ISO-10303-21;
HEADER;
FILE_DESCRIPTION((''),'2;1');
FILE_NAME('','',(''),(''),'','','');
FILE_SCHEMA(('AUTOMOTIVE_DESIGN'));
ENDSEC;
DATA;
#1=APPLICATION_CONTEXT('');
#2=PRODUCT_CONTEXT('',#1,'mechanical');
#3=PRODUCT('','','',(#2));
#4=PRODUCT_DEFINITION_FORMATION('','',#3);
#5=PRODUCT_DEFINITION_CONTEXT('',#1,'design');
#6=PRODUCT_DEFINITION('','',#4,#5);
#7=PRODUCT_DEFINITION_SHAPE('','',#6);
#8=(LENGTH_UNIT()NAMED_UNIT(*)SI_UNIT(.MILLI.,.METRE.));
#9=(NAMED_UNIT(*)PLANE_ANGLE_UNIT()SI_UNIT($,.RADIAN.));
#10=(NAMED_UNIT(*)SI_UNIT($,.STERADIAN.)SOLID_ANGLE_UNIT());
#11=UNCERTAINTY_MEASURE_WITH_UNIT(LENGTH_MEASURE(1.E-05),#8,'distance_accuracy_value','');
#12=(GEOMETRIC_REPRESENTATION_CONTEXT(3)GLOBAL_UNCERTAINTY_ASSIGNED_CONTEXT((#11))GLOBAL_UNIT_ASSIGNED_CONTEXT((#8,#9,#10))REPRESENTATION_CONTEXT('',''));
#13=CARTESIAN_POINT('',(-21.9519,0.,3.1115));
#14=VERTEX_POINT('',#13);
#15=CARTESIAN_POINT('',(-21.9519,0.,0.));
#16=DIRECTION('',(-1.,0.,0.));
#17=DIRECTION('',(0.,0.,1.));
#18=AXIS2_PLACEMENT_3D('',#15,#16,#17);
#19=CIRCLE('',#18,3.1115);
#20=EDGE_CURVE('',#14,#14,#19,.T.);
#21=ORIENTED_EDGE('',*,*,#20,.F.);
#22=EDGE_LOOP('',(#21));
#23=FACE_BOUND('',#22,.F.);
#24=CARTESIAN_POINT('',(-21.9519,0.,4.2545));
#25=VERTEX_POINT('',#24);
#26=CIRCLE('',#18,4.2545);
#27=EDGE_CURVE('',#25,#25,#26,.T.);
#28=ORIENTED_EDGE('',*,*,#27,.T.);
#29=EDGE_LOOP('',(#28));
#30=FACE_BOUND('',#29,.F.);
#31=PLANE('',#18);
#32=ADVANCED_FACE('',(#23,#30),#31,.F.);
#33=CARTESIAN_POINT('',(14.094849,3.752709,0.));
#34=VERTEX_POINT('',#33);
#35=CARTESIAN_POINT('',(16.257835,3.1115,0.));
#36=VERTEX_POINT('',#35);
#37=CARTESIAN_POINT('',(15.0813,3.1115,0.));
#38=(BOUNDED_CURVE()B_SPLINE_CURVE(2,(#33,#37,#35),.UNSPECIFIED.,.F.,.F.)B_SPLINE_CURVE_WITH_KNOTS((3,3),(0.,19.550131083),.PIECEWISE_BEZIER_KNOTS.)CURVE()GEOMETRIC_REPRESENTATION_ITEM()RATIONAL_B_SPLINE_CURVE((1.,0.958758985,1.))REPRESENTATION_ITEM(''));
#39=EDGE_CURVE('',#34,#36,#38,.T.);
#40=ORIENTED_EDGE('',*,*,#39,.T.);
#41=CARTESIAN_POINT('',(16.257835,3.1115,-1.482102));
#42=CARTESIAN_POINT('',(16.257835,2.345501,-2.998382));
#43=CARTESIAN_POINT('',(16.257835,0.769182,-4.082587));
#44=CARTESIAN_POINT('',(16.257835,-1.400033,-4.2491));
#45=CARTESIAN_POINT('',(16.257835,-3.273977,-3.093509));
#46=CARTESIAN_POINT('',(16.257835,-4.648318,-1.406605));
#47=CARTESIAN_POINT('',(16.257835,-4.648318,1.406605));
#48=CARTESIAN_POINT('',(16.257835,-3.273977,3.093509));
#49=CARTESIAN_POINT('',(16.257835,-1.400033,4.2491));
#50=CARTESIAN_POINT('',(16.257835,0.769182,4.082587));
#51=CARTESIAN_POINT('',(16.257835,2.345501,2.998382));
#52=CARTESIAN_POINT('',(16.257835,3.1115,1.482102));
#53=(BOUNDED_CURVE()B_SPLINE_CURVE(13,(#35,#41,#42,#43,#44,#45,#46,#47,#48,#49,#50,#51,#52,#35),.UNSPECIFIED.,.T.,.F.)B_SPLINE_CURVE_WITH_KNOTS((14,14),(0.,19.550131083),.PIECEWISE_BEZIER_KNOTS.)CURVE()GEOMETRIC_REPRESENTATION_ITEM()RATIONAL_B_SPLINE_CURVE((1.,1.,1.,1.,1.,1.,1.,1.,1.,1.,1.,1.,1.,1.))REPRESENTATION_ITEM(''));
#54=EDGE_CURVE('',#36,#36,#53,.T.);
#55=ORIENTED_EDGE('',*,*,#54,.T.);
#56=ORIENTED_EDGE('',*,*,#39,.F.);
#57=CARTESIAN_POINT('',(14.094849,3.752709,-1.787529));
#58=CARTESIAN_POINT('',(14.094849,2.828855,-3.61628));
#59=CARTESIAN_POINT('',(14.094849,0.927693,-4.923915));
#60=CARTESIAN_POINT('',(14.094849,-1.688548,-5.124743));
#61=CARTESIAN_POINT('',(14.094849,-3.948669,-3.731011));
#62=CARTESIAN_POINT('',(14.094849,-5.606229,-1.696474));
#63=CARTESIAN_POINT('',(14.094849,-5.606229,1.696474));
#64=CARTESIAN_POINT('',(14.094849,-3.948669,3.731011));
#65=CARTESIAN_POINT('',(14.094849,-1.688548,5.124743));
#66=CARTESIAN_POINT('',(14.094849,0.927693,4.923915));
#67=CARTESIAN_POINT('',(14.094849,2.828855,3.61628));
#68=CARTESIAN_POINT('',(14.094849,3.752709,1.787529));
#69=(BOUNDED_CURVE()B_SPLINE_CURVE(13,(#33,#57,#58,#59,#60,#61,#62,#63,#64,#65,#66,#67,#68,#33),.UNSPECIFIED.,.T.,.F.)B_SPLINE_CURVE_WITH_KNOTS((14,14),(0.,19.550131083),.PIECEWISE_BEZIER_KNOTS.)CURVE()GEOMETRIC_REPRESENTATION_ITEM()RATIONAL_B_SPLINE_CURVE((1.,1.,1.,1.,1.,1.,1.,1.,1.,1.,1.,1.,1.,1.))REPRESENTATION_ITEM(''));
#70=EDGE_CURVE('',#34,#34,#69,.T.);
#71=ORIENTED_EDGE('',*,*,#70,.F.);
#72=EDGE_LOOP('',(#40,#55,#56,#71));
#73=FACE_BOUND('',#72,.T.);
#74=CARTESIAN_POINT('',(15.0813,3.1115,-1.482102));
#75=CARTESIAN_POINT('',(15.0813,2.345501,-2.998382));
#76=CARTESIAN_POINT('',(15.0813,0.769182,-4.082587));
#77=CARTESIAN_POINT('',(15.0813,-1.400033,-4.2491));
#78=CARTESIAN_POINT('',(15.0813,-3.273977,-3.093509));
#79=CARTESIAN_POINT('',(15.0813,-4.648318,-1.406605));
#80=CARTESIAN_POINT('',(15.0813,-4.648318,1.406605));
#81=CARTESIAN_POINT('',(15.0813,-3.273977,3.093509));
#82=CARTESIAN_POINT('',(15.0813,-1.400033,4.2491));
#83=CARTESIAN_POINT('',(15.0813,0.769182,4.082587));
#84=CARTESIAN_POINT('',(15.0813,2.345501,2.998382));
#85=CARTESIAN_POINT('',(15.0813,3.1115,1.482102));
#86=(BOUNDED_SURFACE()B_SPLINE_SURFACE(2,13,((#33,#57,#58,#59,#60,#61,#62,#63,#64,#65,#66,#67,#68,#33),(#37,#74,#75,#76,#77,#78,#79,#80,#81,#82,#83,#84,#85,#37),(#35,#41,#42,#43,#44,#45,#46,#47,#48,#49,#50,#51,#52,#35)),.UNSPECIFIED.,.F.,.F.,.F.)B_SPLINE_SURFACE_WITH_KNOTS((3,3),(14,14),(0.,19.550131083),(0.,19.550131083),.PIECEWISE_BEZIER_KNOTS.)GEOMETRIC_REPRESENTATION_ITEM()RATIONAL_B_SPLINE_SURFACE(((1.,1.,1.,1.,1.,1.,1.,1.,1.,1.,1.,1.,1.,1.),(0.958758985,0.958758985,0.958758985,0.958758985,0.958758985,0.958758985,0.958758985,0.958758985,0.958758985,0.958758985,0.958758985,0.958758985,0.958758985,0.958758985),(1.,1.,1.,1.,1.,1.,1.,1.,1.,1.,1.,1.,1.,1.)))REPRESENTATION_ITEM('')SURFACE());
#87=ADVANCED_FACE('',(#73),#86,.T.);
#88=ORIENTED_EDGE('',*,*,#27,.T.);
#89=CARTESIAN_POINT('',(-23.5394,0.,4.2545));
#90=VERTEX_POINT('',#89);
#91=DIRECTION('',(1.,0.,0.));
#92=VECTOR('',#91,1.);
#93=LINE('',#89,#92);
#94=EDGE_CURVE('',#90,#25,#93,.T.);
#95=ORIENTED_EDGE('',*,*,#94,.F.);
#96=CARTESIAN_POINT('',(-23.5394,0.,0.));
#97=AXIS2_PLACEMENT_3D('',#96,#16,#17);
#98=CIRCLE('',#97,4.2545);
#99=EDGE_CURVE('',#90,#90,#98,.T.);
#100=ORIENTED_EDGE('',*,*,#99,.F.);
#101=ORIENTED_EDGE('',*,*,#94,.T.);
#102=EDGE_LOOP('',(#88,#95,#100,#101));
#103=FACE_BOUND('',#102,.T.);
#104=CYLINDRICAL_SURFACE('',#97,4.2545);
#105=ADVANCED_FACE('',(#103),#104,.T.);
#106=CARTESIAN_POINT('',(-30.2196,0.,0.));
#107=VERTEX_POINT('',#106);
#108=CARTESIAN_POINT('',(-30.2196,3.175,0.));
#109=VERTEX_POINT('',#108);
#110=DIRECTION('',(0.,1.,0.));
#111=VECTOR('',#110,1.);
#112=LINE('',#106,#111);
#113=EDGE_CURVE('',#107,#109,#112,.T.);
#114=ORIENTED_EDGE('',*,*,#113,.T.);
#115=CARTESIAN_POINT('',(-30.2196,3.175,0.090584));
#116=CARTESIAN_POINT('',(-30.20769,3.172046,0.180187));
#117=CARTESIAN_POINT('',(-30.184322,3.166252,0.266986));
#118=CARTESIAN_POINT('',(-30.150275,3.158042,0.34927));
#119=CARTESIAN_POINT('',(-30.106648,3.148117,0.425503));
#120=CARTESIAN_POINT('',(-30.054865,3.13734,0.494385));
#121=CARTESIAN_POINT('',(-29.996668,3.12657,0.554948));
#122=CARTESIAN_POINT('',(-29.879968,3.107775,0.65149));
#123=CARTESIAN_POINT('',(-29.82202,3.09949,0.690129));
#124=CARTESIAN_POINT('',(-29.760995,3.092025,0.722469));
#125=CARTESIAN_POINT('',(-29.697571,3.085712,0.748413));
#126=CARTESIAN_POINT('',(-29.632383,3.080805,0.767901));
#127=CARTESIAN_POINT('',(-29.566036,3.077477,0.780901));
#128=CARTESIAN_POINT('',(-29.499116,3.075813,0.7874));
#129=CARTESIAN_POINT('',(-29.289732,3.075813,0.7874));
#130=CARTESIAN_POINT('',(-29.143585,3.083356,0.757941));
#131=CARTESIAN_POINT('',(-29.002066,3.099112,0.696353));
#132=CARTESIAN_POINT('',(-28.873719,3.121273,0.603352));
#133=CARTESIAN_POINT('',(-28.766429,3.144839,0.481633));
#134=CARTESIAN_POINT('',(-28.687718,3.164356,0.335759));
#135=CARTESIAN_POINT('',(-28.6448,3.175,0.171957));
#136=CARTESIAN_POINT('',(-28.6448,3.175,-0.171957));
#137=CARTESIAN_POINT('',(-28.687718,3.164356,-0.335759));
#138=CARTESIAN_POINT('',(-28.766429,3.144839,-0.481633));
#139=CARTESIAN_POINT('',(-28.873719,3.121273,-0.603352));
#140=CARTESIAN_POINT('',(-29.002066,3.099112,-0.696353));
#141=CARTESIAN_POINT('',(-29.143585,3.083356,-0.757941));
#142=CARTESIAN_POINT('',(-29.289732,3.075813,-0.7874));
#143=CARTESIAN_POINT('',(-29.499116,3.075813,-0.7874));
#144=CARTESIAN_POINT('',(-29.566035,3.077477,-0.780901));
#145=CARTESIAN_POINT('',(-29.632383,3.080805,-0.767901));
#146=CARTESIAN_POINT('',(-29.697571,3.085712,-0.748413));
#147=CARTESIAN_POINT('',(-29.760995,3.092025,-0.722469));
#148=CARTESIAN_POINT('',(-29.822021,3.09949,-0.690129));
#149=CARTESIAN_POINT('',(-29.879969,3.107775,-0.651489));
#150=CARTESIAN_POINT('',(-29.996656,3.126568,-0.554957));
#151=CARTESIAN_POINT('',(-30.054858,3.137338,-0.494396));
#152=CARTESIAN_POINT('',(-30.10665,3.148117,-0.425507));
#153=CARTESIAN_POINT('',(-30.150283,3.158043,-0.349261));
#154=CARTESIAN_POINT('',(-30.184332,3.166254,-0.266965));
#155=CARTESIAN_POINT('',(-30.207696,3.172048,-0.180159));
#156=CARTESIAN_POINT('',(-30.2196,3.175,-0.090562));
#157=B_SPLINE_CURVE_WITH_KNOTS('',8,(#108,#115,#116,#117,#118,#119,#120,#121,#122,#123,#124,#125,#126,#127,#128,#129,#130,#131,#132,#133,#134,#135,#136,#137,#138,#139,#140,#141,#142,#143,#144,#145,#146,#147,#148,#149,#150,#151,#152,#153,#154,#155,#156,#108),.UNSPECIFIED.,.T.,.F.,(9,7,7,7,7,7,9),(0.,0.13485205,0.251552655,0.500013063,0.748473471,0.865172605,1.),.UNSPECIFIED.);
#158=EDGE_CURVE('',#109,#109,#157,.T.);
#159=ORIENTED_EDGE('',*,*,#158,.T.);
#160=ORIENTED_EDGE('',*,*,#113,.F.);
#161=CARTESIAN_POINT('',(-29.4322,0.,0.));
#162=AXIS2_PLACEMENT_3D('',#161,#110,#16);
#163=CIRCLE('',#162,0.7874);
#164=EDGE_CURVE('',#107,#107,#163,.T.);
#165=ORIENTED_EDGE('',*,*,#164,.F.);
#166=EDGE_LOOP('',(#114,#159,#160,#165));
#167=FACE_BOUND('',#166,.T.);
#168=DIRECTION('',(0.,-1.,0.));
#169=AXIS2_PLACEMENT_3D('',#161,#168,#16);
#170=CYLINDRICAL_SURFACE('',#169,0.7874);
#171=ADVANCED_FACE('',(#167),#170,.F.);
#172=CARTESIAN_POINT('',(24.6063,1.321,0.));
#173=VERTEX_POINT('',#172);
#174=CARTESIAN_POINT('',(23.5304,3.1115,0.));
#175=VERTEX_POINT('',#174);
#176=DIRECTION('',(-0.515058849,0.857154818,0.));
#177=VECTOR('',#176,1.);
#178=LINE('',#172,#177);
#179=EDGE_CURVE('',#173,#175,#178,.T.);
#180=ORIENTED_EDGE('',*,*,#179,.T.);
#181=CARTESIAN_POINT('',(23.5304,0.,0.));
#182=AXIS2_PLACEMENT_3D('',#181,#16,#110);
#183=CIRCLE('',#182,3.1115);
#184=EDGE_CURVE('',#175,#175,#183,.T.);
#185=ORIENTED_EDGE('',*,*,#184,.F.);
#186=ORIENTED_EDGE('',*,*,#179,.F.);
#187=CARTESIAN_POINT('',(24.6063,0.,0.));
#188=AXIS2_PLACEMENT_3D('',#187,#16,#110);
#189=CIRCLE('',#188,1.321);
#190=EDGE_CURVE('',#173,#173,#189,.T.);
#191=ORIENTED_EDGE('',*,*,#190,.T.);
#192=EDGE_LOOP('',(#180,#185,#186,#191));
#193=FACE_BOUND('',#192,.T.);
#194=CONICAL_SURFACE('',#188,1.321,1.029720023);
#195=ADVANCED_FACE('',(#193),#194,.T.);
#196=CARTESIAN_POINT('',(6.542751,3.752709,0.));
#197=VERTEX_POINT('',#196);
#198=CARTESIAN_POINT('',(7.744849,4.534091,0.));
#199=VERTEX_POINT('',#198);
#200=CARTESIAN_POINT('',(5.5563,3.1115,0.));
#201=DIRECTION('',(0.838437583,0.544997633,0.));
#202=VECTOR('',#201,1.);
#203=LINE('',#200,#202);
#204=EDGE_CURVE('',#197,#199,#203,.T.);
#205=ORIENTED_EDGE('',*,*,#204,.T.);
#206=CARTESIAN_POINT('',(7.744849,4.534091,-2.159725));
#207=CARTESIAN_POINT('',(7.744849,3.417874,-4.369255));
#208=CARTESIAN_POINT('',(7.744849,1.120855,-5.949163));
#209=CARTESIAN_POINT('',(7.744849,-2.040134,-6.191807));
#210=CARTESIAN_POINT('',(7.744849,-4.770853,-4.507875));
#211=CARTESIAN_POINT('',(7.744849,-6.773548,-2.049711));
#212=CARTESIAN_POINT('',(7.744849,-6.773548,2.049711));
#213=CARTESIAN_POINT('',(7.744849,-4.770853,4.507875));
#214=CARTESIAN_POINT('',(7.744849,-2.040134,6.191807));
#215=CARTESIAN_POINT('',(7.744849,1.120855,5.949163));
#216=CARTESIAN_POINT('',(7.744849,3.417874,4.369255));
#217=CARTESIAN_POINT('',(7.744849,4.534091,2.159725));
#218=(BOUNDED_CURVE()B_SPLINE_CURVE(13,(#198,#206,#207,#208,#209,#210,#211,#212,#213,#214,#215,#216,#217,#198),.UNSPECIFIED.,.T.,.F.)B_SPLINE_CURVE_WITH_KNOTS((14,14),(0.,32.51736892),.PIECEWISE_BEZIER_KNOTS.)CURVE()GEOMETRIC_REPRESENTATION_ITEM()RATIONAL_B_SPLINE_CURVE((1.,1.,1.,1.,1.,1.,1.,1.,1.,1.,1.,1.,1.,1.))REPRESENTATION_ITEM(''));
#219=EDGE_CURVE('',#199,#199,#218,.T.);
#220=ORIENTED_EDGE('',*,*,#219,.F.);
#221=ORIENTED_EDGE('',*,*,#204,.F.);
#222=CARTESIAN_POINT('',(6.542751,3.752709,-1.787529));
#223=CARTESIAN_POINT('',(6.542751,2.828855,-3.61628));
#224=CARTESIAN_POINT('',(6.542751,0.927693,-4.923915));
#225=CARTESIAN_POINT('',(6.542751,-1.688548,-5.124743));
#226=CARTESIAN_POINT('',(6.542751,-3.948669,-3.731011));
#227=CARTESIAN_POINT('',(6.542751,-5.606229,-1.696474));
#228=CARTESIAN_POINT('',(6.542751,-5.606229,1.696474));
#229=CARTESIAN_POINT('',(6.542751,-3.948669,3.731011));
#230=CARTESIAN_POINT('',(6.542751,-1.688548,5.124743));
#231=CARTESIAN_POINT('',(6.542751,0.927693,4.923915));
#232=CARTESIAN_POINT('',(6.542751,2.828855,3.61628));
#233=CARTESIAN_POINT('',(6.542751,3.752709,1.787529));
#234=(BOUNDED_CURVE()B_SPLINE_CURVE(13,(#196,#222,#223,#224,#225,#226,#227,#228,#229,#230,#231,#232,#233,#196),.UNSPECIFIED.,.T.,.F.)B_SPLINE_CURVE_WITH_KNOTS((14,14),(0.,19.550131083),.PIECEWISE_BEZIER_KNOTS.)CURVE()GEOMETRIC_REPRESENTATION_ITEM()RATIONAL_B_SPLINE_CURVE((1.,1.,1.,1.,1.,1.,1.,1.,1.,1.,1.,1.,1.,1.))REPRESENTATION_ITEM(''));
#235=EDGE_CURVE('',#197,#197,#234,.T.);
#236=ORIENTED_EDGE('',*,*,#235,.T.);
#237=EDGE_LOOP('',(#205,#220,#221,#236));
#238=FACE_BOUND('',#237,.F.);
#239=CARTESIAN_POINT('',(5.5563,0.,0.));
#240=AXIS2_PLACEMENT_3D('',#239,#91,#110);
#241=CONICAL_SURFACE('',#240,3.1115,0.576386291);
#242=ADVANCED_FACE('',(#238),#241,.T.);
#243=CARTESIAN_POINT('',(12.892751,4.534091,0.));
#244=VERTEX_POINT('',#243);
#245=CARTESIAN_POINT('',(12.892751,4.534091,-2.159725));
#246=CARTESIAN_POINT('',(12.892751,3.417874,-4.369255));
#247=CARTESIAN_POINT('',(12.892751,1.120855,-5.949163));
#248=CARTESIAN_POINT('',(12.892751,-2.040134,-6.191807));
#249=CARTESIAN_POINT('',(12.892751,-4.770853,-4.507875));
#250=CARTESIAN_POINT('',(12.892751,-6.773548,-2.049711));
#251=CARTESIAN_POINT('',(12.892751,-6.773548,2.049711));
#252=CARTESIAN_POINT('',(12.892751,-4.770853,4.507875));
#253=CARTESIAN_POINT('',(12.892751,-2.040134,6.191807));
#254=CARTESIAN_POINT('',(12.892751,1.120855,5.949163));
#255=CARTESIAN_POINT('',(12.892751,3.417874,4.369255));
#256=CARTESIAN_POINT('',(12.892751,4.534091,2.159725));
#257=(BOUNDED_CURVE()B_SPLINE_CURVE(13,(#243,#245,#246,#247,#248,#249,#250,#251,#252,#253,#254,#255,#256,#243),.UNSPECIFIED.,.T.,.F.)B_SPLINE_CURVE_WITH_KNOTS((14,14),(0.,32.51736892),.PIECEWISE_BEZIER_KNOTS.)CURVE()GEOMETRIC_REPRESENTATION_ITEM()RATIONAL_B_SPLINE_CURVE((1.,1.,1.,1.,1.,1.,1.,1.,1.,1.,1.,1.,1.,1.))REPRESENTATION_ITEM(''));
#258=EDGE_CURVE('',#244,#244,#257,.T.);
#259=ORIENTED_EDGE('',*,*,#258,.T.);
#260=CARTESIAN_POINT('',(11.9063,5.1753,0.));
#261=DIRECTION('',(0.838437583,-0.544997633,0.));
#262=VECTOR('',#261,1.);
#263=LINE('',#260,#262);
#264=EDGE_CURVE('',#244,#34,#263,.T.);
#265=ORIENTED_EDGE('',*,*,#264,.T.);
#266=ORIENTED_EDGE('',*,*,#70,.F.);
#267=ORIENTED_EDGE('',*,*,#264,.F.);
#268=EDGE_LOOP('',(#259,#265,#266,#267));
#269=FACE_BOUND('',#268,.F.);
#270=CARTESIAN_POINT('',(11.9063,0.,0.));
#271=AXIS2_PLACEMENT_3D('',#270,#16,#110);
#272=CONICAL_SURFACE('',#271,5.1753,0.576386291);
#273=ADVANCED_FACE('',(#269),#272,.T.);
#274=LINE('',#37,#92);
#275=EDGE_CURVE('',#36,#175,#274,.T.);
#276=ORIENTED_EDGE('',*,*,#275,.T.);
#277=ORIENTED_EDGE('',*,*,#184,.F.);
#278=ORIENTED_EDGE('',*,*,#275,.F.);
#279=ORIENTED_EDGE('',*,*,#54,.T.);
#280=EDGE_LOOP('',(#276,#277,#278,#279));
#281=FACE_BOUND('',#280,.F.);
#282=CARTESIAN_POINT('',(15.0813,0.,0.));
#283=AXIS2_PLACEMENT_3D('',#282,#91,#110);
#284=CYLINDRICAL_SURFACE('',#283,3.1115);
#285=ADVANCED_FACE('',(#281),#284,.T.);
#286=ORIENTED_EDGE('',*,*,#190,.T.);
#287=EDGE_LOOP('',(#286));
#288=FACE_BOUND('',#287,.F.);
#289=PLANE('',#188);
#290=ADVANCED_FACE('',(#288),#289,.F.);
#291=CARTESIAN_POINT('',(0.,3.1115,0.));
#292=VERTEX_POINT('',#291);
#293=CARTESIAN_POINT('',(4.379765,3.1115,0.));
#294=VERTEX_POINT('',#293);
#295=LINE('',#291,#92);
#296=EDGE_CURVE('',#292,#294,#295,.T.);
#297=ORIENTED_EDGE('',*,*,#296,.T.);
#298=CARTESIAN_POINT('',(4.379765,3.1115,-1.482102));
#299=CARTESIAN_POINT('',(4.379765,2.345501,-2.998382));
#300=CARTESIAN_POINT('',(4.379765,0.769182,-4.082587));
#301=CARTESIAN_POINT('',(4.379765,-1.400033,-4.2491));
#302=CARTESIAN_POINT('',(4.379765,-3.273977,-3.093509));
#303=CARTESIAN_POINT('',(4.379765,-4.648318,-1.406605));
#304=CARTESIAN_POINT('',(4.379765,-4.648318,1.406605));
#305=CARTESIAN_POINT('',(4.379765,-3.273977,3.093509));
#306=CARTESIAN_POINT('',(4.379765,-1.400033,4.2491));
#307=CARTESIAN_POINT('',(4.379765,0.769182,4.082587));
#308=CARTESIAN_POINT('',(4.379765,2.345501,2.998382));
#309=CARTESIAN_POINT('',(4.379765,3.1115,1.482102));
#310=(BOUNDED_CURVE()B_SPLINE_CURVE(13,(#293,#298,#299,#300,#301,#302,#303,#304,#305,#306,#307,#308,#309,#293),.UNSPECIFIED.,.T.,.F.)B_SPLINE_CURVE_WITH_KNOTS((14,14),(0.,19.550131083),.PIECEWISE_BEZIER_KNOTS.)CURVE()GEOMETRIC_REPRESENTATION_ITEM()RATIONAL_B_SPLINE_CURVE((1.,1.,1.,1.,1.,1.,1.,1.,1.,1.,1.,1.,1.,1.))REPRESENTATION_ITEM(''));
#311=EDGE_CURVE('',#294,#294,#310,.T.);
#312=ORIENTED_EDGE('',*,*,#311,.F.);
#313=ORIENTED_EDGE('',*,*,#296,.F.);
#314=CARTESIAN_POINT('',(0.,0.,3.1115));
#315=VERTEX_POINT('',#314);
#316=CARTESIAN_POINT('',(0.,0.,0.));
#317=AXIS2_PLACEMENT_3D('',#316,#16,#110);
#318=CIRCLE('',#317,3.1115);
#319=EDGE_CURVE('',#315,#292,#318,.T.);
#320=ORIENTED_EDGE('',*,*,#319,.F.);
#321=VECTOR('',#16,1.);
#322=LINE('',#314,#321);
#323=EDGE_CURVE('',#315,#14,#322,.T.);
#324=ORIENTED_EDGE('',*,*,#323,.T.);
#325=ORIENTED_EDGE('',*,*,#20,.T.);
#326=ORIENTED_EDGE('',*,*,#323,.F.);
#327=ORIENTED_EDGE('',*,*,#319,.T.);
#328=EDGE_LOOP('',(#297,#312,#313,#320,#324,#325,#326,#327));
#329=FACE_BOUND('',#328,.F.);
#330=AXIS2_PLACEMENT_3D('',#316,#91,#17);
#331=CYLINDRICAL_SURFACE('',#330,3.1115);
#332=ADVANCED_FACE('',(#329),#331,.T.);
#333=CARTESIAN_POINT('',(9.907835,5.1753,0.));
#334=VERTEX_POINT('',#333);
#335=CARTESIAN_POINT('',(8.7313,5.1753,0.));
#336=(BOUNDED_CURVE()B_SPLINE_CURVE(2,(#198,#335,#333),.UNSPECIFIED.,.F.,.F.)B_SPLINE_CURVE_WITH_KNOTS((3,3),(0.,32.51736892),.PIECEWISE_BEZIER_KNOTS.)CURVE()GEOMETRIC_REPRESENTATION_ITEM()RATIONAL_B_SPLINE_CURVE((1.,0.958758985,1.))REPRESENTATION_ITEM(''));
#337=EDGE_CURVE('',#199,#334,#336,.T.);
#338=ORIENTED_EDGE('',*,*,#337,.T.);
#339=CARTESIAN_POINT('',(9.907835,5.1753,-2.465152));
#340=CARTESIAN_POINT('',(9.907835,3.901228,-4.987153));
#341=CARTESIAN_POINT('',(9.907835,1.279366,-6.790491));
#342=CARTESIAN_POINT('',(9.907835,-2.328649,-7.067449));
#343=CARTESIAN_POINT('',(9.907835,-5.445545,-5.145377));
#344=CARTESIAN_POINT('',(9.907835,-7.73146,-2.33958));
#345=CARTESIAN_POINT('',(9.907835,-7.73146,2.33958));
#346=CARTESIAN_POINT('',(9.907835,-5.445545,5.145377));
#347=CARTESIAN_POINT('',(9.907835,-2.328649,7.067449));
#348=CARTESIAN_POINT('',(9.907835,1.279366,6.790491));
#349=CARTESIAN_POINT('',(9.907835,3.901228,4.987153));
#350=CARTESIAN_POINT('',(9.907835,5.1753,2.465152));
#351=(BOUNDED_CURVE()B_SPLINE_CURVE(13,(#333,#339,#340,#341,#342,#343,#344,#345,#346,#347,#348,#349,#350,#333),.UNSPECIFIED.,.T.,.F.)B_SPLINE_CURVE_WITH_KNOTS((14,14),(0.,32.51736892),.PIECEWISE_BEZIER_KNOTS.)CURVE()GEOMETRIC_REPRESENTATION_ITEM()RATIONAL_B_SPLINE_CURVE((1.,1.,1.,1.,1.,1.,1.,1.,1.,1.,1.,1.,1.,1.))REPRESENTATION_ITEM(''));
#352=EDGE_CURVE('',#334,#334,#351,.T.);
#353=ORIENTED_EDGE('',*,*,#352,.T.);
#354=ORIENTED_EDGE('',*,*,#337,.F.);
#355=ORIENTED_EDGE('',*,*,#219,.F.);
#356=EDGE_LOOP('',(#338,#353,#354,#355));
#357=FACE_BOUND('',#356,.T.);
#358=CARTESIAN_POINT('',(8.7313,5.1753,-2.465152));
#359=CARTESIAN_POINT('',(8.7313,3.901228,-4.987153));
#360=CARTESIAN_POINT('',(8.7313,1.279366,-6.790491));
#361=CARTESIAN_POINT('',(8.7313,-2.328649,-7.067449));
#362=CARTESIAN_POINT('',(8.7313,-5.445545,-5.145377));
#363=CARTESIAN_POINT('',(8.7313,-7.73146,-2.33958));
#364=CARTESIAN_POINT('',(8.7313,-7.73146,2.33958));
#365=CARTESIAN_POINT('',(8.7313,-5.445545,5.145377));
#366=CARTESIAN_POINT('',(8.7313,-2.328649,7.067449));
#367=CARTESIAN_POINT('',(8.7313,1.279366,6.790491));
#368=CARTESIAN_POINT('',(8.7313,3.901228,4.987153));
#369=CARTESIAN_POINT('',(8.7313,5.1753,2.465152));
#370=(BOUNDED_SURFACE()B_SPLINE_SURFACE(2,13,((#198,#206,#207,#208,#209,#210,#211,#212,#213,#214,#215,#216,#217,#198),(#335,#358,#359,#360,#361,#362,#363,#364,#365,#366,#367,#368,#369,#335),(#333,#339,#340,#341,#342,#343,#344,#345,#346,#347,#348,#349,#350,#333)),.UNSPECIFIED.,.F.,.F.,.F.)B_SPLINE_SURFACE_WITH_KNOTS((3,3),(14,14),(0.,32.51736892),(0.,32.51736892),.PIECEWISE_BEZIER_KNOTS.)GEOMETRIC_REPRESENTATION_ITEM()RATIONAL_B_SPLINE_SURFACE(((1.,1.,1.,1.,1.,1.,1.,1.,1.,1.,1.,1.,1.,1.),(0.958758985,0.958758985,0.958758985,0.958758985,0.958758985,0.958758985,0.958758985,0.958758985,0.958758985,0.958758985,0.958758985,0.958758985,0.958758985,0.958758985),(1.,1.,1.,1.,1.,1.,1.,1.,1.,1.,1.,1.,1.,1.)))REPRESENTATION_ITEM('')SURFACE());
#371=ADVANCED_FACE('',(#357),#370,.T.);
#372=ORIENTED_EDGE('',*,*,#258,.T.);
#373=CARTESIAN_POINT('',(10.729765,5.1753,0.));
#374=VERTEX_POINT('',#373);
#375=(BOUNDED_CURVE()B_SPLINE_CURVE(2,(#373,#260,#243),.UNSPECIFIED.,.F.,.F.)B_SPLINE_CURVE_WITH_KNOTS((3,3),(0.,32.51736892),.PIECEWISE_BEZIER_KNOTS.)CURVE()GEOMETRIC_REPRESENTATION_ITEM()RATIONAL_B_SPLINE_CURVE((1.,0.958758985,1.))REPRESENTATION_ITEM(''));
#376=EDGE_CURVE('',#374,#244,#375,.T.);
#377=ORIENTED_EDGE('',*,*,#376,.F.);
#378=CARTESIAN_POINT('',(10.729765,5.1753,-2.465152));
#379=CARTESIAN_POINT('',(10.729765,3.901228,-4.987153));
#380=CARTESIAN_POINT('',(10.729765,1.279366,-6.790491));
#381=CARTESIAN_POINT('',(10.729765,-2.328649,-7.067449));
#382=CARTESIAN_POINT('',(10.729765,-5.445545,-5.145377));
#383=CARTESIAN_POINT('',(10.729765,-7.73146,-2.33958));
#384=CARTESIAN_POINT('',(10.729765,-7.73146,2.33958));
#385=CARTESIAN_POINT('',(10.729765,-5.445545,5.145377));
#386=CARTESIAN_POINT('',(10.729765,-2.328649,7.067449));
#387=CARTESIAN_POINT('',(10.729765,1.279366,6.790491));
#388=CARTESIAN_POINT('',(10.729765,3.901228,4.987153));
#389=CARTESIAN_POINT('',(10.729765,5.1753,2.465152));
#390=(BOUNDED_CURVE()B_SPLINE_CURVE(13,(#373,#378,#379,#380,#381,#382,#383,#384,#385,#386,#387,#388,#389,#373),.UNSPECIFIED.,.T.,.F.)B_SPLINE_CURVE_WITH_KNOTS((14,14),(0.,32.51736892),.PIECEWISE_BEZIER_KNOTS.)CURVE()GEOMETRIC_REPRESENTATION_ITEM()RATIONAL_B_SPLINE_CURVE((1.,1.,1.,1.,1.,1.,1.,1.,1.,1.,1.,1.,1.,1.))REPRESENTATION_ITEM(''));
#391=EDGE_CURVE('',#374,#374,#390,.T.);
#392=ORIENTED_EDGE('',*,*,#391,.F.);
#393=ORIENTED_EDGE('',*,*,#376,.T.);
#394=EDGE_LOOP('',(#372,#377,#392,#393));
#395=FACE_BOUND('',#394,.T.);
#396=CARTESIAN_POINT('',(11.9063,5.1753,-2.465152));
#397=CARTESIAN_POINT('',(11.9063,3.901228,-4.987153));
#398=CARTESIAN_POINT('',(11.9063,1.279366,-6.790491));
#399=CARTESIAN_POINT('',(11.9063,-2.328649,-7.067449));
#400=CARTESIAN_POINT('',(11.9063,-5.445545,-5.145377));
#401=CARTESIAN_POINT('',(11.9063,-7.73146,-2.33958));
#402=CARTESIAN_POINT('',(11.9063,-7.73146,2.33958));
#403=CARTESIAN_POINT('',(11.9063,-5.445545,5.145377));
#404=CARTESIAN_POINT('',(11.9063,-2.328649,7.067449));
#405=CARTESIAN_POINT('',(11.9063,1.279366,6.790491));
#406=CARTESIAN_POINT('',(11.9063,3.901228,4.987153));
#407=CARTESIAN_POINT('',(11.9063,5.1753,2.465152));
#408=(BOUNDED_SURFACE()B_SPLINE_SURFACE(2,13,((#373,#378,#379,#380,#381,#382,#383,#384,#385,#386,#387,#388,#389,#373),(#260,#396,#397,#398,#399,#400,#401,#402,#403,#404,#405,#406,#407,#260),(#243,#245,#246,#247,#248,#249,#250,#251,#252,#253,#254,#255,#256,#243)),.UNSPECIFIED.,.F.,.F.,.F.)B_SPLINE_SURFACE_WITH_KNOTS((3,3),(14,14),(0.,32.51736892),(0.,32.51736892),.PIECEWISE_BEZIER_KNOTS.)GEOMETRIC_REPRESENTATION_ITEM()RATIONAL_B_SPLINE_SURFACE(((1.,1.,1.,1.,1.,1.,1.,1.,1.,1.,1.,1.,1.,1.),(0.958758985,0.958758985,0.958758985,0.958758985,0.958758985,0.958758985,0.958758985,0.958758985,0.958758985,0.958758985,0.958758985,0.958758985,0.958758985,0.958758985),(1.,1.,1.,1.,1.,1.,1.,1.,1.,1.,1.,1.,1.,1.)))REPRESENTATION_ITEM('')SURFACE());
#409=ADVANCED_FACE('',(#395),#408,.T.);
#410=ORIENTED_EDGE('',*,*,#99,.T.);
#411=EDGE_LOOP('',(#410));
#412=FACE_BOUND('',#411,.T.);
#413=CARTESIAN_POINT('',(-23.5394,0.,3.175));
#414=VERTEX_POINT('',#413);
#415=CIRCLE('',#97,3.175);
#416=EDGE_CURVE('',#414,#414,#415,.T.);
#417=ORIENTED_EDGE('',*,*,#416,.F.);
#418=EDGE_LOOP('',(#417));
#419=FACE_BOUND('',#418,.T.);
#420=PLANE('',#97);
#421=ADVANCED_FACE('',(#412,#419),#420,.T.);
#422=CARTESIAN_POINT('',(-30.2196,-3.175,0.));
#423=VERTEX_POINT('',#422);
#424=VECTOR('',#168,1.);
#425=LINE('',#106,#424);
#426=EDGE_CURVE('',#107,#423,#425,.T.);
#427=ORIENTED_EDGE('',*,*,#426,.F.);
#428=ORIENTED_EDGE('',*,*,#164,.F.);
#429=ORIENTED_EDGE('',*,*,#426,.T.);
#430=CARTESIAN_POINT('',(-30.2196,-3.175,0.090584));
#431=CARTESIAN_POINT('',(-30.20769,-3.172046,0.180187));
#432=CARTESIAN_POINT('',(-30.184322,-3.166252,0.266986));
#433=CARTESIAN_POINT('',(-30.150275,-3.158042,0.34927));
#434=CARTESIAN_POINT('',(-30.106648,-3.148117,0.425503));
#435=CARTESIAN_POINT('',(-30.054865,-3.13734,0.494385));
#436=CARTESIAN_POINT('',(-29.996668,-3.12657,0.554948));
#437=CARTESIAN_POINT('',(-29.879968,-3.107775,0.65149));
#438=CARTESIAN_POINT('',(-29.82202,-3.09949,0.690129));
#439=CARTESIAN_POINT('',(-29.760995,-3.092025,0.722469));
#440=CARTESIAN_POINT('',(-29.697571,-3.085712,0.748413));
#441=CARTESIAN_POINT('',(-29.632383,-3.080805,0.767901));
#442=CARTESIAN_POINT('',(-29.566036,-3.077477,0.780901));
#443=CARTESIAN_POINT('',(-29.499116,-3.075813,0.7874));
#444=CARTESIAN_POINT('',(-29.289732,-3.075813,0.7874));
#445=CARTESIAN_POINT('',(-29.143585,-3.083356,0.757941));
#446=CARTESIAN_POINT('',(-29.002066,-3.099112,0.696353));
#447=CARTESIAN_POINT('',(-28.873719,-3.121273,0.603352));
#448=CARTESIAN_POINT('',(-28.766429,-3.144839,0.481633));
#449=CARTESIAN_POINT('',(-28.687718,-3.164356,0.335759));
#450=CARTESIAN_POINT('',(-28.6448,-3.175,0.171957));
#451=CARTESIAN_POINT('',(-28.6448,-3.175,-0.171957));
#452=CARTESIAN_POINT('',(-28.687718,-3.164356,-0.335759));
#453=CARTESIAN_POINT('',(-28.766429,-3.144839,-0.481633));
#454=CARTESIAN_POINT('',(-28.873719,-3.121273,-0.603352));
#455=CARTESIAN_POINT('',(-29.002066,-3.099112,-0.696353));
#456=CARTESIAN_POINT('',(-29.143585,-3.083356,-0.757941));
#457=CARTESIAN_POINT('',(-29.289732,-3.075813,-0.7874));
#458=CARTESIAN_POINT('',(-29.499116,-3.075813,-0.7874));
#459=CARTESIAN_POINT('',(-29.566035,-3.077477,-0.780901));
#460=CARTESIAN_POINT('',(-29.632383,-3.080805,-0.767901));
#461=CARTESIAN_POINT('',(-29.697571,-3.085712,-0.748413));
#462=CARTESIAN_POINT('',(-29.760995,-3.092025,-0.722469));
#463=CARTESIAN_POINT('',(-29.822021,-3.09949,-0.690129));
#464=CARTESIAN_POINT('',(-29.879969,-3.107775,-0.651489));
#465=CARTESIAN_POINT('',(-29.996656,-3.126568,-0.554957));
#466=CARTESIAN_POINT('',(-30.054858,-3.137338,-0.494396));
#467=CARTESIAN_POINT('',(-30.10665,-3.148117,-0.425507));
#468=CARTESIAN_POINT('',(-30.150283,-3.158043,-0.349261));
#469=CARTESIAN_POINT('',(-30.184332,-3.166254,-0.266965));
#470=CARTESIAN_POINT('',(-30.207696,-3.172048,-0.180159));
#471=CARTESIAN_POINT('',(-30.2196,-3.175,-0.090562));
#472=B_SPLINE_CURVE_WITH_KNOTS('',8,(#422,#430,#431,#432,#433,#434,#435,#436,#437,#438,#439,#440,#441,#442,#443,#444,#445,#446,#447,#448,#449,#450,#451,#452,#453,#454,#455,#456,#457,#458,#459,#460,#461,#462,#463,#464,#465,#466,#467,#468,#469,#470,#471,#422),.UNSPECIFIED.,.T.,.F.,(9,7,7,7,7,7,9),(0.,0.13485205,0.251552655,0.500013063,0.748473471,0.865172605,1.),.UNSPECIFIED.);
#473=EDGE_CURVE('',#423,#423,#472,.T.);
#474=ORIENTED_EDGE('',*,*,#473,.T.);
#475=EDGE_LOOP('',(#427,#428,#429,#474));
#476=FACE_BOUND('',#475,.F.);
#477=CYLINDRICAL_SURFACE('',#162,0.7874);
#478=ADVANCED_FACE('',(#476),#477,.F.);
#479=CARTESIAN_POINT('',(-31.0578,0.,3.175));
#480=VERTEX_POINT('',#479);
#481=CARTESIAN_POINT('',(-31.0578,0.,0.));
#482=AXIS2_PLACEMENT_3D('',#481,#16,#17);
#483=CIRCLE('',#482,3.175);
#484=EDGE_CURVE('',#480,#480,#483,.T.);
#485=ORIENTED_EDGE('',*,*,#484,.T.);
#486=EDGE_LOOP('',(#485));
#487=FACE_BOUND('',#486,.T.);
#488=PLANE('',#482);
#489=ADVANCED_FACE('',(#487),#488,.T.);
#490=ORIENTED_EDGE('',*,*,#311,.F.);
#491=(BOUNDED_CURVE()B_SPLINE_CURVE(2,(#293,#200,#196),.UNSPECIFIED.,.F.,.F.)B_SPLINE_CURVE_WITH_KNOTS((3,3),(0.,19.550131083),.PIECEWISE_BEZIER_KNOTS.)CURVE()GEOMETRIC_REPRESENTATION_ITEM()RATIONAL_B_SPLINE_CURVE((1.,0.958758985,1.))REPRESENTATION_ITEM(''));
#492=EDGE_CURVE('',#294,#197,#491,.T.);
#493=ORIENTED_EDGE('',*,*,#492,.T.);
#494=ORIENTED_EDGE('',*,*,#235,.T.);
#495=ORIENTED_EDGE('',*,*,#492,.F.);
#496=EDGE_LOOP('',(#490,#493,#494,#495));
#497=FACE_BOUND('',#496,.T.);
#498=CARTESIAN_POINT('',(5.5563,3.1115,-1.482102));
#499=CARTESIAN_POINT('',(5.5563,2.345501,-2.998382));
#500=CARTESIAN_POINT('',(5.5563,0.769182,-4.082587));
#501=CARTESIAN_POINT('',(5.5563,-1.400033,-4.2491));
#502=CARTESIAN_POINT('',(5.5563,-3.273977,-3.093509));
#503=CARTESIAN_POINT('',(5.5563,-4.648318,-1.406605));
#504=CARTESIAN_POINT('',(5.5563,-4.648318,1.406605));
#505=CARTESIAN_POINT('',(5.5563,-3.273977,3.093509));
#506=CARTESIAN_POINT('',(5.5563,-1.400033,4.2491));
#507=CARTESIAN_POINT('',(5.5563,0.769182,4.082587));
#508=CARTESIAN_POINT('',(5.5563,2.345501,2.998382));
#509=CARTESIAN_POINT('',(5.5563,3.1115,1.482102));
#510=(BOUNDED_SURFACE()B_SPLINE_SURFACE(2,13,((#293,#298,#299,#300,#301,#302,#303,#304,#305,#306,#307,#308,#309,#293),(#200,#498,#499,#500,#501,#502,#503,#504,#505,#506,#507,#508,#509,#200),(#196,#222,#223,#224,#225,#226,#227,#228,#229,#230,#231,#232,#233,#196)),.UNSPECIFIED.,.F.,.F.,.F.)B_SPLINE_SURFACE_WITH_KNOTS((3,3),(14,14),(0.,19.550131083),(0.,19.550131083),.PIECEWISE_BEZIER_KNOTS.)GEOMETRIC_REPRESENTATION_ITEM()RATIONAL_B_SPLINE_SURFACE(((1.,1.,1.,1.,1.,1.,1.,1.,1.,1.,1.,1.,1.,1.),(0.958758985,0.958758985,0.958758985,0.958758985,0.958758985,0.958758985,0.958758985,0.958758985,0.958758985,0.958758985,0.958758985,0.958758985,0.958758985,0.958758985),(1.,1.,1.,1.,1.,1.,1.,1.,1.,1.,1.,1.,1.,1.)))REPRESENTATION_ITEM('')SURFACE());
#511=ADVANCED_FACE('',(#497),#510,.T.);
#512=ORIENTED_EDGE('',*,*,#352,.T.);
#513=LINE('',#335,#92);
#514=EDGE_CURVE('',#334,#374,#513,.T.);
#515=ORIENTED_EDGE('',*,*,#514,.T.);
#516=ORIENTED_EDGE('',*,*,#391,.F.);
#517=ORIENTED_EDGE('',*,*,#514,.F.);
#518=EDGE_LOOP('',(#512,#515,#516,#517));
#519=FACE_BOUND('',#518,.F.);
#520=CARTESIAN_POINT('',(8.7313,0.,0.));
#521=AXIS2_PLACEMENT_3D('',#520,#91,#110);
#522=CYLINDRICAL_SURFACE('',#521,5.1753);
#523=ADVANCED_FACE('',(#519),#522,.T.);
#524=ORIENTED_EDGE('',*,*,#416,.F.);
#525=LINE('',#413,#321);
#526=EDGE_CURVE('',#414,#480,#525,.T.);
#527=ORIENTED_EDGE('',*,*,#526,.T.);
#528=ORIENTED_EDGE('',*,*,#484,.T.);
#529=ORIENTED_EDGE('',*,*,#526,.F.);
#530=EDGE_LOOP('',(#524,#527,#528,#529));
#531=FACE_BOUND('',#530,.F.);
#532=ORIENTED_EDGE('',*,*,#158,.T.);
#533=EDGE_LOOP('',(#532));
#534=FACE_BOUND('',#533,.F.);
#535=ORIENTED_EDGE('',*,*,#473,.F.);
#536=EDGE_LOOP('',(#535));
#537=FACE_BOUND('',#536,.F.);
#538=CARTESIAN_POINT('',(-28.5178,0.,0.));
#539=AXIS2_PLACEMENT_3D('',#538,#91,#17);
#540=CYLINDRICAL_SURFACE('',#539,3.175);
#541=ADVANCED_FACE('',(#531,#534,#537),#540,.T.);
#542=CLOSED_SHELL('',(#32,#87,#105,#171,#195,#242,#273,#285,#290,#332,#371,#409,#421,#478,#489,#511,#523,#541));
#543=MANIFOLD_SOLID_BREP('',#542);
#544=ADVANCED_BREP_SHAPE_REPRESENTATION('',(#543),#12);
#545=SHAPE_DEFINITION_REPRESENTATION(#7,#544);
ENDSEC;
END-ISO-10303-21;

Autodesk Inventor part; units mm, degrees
ref_plane "YZ Plane" through (0, 0, 0) normal (1, 0, 0) x (0, 1, 0)
ref_plane "XZ Plane" through (0, 0, 0) normal (0, 1, 0) x (-1, 0, 0)
sketch "Sketch1" plane through (0, 0, 0) normal (0, 0, 1) x (1, 0, 0)
  line L0 (0, 0) -> (0, 3.1115)
  line L1 (0, 5.5562) -> (26.1938, 5.5563) construction
  line L2 (0, 7.9375) -> (26.1938, 7.9375) construction
  line L3 (26.1938, 7.9375) -> (26.1938, 5.5563) construction
  line L4 (26.1938, 5.5563) -> (26.1938, 0) construction
  line L5 (26.1938, 0) -> (24.6063, 0) construction
  line L6 (26.1938, 6.35) -> (34.3853, 6.35) construction
  line L7 (26.1938, 0) -> (34.3853, 0) construction
  line L8 (34.3853, 0) -> (34.3853, 6.35) construction
  line L9 (16.6688, 7.9375) -> (16.6688, 0) construction
  circle A0 centre (16.6688, 7.5565) radius 2.3813 construction
  circle A1 centre (16.6688, 5.4928) radius 2.3813 construction
  circle A2 centre (10.3188, 7.5565) radius 2.3813 construction
  circle A3 centre (10.3188, 5.4928) radius 2.3813 construction
  line L10 (10.3188, 7.9375) -> (10.3188, 0) construction
  line L11 (0, 5.1753) -> (8.7313, 5.1753) construction
  line L12 (8.7313, 5.1753) -> (8.7313, 0) construction
  line L13 (5.5563, 5.1753) -> (5.5563, 0) construction
  line L14 (18.2563, 5.1753) -> (18.2563, 0) construction
  line L15 (21.4313, 5.1753) -> (21.4313, 0) construction
  line L16 (0, 3.1115) -> (5.5563, 3.1115)
  line L17 (5.5563, 3.1115) -> (8.7313, 5.1753)
  line L18 (18.2563, 5.1753) -> (21.4313, 3.1115) construction
  line L19 (11.9063, 5.1753) -> (11.9063, 0) construction
  line L20 (15.0813, 5.1753) -> (15.0813, 0) construction
  line L21 (11.9063, 5.1753) -> (15.0813, 3.1115)
  line L22 (21.4313, 3.3734) -> (34.3853, 3.3734) construction
  line L23 (24.6063, 3.3734) -> (24.6063, 1.321) construction
  line L24 (21.4313, 3.3734) -> (20.1197, 5.5563) construction
  line L25 (26.1938, 3.1115) -> (30.9563, 3.1115) construction
  line L26 (30.9563, 3.1115) -> (30.9563, 0) construction
  line L27 (31.75, 3.3734) -> (31.75, 0) construction
  line L28 (31.75, 0) -> (29.723, 3.3734) construction
  line L29 (0, 7.9375) -> (-1.5875, 7.9375) construction
  line L30 (-1.5875, 7.9375) -> (-1.5875, 3.3734) construction
  line L31 (-1.5875, 3.3734) -> (5.5563, 3.3734) construction
  line L32 (5.5563, 3.1115) -> (15.0813, 3.1115) construction
  line L33 (15.0813, 3.1115) -> (23.5304, 3.1115)
  line L34 (11.9063, 5.1753) -> (26.1938, 5.1753) construction
  line L35 (8.7313, 5.1753) -> (11.9063, 5.1753)
  line L36 (24.6063, 3.1115) -> (26.1938, 3.1115) construction
  line L37 (24.6063, 1.321) -> (23.5304, 3.1115)
  line L38 (25.4, 0) -> (25.4, 3.3734) construction
  line L39 (24.6063, 1.321) -> (24.6063, 0)
  line L40 (23.5304, 3.1115) -> (24.6063, 3.1115) construction
  line L41 (0, 3.1115) -> (0, 12.7) construction
  line L42 (24.6063, 0) -> (0, 0)
  line L43 (24.6063, 1.321) -> (25.4, 0) construction
  point P0 (0, 0)
  dimension "d0" = 12.7
  dimension "d1" = 5.5563
  dimension "d2" = 7.9375
  dimension "d3" = 26.1938
  dimension "d4" = 8.1915
  dimension "d5" = 6.35
  dimension "d6" = 9.525
  dimension "d7" = 6.35
  dimension "d8" = 0.381
  dimension "d9" = 0.381
  dimension "d10" = 0.0635
  dimension "d11" = 0.0635
  dimension "d12" = 1.5875
  dimension "d13" = 4.7625
  dimension "d14" = 1.5875
  dimension "d15" = 4.7625
  dimension "d17" = 1.5875
  dimension "d18" = 4.7625
  dimension "d19" = 3.3734
  dimension "d20" = 3.175
  dimension "d21" = 31
  dimension "d23" = 9.525
  dimension "d24" = 0.7937
  dimension "d25" = 31
  dimension "d26" = 1.5875
  dimension "d33" = 4.7625
  dimension "d35" = 31
  dimension "d36" = 3.3734
  dimension "d37" = 3.1115
  dimension "d38" = 0.7937
  dimension "d43" = 10.3187
revolve "Revolution1" add sketch "Sketch1" angle 360 about axis through (24.6063, 0, 0) along (-1, 0, 0)
ref_plane "Work Plane1" through (10.3188, 0, 0) normal (-1, 0, 0) x (0, 0, 1)
fillet "Fillet1" radius 3.9688 4 edges at (5.5563, -3.1115, 0) (15.0813, -3.1115, 0) (11.9063, -5.1753, 0) (8.7313, -5.1753, 0)
sketch "Sketch2" plane through (0, 0, 0) normal (-1, 0, 0) x (0, 0, 1)
  circle A0 centre (0, 0) radius 3.1115 projected
extrude "Extrusion1" add sketch "Sketch2" along normal blind 23.5394
sketch "Sketch3" plane through (0, 0, 0) normal (0, 0, 1) x (1, 0, 0)
  line L0 (-23.5394, 3.1115) -> (4.3798, 3.1115) projected
  arc A0 (4.3798, 3.1115) -> (6.5427, 3.7527) centre (4.3798, 7.0802) ccw projected
  line L1 (6.5427, 3.7527) -> (7.7448, 4.5341) projected
  arc A1 (9.9077, 5.1753) -> (7.7448, 4.5341) centre (9.9077, 1.2065) ccw projected
  line L2 (9.9077, 5.1753) -> (10.7298, 5.1753) projected
  arc A2 (12.8927, 4.5341) -> (10.7298, 5.1753) centre (10.7298, 1.2065) ccw projected
  line L3 (12.8927, 4.5341) -> (14.0948, 3.7527) projected
  arc A3 (14.0948, 3.7527) -> (16.2577, 3.1115) centre (16.2577, 7.0803) ccw projected
  line L4 (16.2577, 3.1115) -> (23.5304, 3.1115) projected
  circle A4 centre (7.5381, 9.9656) radius 2.3812
  line L5 (4.3798, 7.0802) -> (4.3798, 3.1115) construction
  line L6 (4.3798, 7.0802) -> (6.5427, 3.7527) construction
  line L7 (9.9077, 1.2065) -> (7.7448, 4.5341) construction
  line L8 (9.9077, 1.2065) -> (9.9077, 5.1753) construction
  line L9 (10.7298, 1.2065) -> (10.7298, 5.1753) construction
  line L10 (10.7298, 1.2065) -> (12.8927, 4.5341) construction
  line L11 (16.2577, 7.0803) -> (14.0948, 3.7527) construction
  line L12 (16.2577, 7.0803) -> (16.2577, 3.1115) construction
  line L13 (-5.9448, 5.4927) -> (4.3798, 5.4927)
  arc A5 (4.3798, 5.4927) -> (5.2449, 5.7492) centre (4.3798, 7.0802) ccw
  line L14 (7.7448, 4.5341) -> (6.4471, 6.5306) construction
  line L15 (5.2449, 5.7492) -> (6.4471, 6.5306)
  line L16 (9.9077, 5.1753) -> (9.9077, 7.5565) construction
  arc A6 (9.9077, 7.5565) -> (6.4471, 6.5306) centre (9.9077, 1.2065) ccw
  point P0 (0, 0)
  dimension "d45" = 4.7625
  dimension "d47" = 2.3813
  dimension "d49" = 2.3876
sketch "Sketch4" plane through (-23.5394, 0, 0) normal (-1, 0, 0) x (0, 0, 1)
  circle A0 centre (0, 0) radius 3.1115 projected
  circle A1 centre (0, 0) radius 4.2545
  dimension "d50" = 8.509
extrude "Extrusion2" add sketch "Sketch4" against normal blind 1.5875
sketch "Sketch5" plane through (-23.5394, 0, 0) normal (-1, 0, 0) x (0, 0, 1)
  circle A0 centre (0, 0) radius 4.2545 projected
  circle A1 centre (0, 0) radius 3.175
  dimension "d54" = 6.35
extrude "Extrusion3" add sketch "Sketch5" along normal blind 4.9784 contours A1
sketch "Sketch6" plane through (0, 0, 0) normal (0, 1, 0) x (-1, 0, 0)
  line L0 (28.5178, -3.175) -> (28.5178, 3.175) projected
  line L1 (23.5394, 3.175) -> (23.5394, -3.175) projected
  line L2 (23.5394, 3.175) -> (28.5178, 3.175) projected
  line L3 (23.5394, -3.175) -> (28.5178, -3.175) projected
  circle A0 centre (29.4322, 0) radius 0.7874
  line L4 (28.6448, 3.175) -> (28.6448, -3.175) construction
  line L5 (28.5178, 0) -> (29.4322, 0) construction
  line L6 (28.5178, 3.175) -> (28.6448, 3.175) construction
  line L7 (28.6448, -3.175) -> (28.5178, -3.175) construction
  line L8 (28.5178, 3.175) -> (31.0578, 3.175)
  line L9 (31.0578, 3.175) -> (31.0578, 0)
  line L10 (31.0578, -3.175) -> (28.5178, -3.175) construction
  line L11 (28.5178, 0) -> (31.0578, 0)
  line L12 (31.0578, 0) -> (31.0578, -3.175) construction
  line L13 (28.5178, 0) -> (28.5178, 3.175)
  point P0 (0, 0)
  point P1 (30.2196, 0)
  point P2 (28.6448, 0)
  dimension "d57" = 1.5748
  dimension "d58" = 0.127
  dimension "d60" = 2.54
sketch "Sketch7" plane through (-28.5178, 0, 0) normal (-1, 0, 0) x (0, 0, 1)
  circle A0 centre (0, 0) radius 3.175 projected
extrude "Extrusion4" add sketch "Sketch7" along normal blind 2.54
extrude "Extrusion5" cut sketch "Sketch6" along normal through all both and the other way through all contours L11 A0 | A0 L11
equation "\"d1\" = d28"
equation "\"d2\" = d29"
equation "\"d8\" = d30"
equation "\"d9\" = d8"
equation "\"d10\" = d31"
equation "\"d11\" = d10"
equation "\"d17\" = d12"
equation "\"d18\" = d13"
equation "\"d23\" = d22"
equation "\"d25\" = d21"
equation "\"d35\" = d25"
equation "\"d44\" = -d43"
equation "\"d28\" = 5.55625"
equation "\"d29\" = 7.9375"
equation "\"d30\" = 0.381"
equation "\"d31\" = 0.0635"
equation "\"d22\" = 9.525"
properties part number "Shifting Shaft" material "Steel"
